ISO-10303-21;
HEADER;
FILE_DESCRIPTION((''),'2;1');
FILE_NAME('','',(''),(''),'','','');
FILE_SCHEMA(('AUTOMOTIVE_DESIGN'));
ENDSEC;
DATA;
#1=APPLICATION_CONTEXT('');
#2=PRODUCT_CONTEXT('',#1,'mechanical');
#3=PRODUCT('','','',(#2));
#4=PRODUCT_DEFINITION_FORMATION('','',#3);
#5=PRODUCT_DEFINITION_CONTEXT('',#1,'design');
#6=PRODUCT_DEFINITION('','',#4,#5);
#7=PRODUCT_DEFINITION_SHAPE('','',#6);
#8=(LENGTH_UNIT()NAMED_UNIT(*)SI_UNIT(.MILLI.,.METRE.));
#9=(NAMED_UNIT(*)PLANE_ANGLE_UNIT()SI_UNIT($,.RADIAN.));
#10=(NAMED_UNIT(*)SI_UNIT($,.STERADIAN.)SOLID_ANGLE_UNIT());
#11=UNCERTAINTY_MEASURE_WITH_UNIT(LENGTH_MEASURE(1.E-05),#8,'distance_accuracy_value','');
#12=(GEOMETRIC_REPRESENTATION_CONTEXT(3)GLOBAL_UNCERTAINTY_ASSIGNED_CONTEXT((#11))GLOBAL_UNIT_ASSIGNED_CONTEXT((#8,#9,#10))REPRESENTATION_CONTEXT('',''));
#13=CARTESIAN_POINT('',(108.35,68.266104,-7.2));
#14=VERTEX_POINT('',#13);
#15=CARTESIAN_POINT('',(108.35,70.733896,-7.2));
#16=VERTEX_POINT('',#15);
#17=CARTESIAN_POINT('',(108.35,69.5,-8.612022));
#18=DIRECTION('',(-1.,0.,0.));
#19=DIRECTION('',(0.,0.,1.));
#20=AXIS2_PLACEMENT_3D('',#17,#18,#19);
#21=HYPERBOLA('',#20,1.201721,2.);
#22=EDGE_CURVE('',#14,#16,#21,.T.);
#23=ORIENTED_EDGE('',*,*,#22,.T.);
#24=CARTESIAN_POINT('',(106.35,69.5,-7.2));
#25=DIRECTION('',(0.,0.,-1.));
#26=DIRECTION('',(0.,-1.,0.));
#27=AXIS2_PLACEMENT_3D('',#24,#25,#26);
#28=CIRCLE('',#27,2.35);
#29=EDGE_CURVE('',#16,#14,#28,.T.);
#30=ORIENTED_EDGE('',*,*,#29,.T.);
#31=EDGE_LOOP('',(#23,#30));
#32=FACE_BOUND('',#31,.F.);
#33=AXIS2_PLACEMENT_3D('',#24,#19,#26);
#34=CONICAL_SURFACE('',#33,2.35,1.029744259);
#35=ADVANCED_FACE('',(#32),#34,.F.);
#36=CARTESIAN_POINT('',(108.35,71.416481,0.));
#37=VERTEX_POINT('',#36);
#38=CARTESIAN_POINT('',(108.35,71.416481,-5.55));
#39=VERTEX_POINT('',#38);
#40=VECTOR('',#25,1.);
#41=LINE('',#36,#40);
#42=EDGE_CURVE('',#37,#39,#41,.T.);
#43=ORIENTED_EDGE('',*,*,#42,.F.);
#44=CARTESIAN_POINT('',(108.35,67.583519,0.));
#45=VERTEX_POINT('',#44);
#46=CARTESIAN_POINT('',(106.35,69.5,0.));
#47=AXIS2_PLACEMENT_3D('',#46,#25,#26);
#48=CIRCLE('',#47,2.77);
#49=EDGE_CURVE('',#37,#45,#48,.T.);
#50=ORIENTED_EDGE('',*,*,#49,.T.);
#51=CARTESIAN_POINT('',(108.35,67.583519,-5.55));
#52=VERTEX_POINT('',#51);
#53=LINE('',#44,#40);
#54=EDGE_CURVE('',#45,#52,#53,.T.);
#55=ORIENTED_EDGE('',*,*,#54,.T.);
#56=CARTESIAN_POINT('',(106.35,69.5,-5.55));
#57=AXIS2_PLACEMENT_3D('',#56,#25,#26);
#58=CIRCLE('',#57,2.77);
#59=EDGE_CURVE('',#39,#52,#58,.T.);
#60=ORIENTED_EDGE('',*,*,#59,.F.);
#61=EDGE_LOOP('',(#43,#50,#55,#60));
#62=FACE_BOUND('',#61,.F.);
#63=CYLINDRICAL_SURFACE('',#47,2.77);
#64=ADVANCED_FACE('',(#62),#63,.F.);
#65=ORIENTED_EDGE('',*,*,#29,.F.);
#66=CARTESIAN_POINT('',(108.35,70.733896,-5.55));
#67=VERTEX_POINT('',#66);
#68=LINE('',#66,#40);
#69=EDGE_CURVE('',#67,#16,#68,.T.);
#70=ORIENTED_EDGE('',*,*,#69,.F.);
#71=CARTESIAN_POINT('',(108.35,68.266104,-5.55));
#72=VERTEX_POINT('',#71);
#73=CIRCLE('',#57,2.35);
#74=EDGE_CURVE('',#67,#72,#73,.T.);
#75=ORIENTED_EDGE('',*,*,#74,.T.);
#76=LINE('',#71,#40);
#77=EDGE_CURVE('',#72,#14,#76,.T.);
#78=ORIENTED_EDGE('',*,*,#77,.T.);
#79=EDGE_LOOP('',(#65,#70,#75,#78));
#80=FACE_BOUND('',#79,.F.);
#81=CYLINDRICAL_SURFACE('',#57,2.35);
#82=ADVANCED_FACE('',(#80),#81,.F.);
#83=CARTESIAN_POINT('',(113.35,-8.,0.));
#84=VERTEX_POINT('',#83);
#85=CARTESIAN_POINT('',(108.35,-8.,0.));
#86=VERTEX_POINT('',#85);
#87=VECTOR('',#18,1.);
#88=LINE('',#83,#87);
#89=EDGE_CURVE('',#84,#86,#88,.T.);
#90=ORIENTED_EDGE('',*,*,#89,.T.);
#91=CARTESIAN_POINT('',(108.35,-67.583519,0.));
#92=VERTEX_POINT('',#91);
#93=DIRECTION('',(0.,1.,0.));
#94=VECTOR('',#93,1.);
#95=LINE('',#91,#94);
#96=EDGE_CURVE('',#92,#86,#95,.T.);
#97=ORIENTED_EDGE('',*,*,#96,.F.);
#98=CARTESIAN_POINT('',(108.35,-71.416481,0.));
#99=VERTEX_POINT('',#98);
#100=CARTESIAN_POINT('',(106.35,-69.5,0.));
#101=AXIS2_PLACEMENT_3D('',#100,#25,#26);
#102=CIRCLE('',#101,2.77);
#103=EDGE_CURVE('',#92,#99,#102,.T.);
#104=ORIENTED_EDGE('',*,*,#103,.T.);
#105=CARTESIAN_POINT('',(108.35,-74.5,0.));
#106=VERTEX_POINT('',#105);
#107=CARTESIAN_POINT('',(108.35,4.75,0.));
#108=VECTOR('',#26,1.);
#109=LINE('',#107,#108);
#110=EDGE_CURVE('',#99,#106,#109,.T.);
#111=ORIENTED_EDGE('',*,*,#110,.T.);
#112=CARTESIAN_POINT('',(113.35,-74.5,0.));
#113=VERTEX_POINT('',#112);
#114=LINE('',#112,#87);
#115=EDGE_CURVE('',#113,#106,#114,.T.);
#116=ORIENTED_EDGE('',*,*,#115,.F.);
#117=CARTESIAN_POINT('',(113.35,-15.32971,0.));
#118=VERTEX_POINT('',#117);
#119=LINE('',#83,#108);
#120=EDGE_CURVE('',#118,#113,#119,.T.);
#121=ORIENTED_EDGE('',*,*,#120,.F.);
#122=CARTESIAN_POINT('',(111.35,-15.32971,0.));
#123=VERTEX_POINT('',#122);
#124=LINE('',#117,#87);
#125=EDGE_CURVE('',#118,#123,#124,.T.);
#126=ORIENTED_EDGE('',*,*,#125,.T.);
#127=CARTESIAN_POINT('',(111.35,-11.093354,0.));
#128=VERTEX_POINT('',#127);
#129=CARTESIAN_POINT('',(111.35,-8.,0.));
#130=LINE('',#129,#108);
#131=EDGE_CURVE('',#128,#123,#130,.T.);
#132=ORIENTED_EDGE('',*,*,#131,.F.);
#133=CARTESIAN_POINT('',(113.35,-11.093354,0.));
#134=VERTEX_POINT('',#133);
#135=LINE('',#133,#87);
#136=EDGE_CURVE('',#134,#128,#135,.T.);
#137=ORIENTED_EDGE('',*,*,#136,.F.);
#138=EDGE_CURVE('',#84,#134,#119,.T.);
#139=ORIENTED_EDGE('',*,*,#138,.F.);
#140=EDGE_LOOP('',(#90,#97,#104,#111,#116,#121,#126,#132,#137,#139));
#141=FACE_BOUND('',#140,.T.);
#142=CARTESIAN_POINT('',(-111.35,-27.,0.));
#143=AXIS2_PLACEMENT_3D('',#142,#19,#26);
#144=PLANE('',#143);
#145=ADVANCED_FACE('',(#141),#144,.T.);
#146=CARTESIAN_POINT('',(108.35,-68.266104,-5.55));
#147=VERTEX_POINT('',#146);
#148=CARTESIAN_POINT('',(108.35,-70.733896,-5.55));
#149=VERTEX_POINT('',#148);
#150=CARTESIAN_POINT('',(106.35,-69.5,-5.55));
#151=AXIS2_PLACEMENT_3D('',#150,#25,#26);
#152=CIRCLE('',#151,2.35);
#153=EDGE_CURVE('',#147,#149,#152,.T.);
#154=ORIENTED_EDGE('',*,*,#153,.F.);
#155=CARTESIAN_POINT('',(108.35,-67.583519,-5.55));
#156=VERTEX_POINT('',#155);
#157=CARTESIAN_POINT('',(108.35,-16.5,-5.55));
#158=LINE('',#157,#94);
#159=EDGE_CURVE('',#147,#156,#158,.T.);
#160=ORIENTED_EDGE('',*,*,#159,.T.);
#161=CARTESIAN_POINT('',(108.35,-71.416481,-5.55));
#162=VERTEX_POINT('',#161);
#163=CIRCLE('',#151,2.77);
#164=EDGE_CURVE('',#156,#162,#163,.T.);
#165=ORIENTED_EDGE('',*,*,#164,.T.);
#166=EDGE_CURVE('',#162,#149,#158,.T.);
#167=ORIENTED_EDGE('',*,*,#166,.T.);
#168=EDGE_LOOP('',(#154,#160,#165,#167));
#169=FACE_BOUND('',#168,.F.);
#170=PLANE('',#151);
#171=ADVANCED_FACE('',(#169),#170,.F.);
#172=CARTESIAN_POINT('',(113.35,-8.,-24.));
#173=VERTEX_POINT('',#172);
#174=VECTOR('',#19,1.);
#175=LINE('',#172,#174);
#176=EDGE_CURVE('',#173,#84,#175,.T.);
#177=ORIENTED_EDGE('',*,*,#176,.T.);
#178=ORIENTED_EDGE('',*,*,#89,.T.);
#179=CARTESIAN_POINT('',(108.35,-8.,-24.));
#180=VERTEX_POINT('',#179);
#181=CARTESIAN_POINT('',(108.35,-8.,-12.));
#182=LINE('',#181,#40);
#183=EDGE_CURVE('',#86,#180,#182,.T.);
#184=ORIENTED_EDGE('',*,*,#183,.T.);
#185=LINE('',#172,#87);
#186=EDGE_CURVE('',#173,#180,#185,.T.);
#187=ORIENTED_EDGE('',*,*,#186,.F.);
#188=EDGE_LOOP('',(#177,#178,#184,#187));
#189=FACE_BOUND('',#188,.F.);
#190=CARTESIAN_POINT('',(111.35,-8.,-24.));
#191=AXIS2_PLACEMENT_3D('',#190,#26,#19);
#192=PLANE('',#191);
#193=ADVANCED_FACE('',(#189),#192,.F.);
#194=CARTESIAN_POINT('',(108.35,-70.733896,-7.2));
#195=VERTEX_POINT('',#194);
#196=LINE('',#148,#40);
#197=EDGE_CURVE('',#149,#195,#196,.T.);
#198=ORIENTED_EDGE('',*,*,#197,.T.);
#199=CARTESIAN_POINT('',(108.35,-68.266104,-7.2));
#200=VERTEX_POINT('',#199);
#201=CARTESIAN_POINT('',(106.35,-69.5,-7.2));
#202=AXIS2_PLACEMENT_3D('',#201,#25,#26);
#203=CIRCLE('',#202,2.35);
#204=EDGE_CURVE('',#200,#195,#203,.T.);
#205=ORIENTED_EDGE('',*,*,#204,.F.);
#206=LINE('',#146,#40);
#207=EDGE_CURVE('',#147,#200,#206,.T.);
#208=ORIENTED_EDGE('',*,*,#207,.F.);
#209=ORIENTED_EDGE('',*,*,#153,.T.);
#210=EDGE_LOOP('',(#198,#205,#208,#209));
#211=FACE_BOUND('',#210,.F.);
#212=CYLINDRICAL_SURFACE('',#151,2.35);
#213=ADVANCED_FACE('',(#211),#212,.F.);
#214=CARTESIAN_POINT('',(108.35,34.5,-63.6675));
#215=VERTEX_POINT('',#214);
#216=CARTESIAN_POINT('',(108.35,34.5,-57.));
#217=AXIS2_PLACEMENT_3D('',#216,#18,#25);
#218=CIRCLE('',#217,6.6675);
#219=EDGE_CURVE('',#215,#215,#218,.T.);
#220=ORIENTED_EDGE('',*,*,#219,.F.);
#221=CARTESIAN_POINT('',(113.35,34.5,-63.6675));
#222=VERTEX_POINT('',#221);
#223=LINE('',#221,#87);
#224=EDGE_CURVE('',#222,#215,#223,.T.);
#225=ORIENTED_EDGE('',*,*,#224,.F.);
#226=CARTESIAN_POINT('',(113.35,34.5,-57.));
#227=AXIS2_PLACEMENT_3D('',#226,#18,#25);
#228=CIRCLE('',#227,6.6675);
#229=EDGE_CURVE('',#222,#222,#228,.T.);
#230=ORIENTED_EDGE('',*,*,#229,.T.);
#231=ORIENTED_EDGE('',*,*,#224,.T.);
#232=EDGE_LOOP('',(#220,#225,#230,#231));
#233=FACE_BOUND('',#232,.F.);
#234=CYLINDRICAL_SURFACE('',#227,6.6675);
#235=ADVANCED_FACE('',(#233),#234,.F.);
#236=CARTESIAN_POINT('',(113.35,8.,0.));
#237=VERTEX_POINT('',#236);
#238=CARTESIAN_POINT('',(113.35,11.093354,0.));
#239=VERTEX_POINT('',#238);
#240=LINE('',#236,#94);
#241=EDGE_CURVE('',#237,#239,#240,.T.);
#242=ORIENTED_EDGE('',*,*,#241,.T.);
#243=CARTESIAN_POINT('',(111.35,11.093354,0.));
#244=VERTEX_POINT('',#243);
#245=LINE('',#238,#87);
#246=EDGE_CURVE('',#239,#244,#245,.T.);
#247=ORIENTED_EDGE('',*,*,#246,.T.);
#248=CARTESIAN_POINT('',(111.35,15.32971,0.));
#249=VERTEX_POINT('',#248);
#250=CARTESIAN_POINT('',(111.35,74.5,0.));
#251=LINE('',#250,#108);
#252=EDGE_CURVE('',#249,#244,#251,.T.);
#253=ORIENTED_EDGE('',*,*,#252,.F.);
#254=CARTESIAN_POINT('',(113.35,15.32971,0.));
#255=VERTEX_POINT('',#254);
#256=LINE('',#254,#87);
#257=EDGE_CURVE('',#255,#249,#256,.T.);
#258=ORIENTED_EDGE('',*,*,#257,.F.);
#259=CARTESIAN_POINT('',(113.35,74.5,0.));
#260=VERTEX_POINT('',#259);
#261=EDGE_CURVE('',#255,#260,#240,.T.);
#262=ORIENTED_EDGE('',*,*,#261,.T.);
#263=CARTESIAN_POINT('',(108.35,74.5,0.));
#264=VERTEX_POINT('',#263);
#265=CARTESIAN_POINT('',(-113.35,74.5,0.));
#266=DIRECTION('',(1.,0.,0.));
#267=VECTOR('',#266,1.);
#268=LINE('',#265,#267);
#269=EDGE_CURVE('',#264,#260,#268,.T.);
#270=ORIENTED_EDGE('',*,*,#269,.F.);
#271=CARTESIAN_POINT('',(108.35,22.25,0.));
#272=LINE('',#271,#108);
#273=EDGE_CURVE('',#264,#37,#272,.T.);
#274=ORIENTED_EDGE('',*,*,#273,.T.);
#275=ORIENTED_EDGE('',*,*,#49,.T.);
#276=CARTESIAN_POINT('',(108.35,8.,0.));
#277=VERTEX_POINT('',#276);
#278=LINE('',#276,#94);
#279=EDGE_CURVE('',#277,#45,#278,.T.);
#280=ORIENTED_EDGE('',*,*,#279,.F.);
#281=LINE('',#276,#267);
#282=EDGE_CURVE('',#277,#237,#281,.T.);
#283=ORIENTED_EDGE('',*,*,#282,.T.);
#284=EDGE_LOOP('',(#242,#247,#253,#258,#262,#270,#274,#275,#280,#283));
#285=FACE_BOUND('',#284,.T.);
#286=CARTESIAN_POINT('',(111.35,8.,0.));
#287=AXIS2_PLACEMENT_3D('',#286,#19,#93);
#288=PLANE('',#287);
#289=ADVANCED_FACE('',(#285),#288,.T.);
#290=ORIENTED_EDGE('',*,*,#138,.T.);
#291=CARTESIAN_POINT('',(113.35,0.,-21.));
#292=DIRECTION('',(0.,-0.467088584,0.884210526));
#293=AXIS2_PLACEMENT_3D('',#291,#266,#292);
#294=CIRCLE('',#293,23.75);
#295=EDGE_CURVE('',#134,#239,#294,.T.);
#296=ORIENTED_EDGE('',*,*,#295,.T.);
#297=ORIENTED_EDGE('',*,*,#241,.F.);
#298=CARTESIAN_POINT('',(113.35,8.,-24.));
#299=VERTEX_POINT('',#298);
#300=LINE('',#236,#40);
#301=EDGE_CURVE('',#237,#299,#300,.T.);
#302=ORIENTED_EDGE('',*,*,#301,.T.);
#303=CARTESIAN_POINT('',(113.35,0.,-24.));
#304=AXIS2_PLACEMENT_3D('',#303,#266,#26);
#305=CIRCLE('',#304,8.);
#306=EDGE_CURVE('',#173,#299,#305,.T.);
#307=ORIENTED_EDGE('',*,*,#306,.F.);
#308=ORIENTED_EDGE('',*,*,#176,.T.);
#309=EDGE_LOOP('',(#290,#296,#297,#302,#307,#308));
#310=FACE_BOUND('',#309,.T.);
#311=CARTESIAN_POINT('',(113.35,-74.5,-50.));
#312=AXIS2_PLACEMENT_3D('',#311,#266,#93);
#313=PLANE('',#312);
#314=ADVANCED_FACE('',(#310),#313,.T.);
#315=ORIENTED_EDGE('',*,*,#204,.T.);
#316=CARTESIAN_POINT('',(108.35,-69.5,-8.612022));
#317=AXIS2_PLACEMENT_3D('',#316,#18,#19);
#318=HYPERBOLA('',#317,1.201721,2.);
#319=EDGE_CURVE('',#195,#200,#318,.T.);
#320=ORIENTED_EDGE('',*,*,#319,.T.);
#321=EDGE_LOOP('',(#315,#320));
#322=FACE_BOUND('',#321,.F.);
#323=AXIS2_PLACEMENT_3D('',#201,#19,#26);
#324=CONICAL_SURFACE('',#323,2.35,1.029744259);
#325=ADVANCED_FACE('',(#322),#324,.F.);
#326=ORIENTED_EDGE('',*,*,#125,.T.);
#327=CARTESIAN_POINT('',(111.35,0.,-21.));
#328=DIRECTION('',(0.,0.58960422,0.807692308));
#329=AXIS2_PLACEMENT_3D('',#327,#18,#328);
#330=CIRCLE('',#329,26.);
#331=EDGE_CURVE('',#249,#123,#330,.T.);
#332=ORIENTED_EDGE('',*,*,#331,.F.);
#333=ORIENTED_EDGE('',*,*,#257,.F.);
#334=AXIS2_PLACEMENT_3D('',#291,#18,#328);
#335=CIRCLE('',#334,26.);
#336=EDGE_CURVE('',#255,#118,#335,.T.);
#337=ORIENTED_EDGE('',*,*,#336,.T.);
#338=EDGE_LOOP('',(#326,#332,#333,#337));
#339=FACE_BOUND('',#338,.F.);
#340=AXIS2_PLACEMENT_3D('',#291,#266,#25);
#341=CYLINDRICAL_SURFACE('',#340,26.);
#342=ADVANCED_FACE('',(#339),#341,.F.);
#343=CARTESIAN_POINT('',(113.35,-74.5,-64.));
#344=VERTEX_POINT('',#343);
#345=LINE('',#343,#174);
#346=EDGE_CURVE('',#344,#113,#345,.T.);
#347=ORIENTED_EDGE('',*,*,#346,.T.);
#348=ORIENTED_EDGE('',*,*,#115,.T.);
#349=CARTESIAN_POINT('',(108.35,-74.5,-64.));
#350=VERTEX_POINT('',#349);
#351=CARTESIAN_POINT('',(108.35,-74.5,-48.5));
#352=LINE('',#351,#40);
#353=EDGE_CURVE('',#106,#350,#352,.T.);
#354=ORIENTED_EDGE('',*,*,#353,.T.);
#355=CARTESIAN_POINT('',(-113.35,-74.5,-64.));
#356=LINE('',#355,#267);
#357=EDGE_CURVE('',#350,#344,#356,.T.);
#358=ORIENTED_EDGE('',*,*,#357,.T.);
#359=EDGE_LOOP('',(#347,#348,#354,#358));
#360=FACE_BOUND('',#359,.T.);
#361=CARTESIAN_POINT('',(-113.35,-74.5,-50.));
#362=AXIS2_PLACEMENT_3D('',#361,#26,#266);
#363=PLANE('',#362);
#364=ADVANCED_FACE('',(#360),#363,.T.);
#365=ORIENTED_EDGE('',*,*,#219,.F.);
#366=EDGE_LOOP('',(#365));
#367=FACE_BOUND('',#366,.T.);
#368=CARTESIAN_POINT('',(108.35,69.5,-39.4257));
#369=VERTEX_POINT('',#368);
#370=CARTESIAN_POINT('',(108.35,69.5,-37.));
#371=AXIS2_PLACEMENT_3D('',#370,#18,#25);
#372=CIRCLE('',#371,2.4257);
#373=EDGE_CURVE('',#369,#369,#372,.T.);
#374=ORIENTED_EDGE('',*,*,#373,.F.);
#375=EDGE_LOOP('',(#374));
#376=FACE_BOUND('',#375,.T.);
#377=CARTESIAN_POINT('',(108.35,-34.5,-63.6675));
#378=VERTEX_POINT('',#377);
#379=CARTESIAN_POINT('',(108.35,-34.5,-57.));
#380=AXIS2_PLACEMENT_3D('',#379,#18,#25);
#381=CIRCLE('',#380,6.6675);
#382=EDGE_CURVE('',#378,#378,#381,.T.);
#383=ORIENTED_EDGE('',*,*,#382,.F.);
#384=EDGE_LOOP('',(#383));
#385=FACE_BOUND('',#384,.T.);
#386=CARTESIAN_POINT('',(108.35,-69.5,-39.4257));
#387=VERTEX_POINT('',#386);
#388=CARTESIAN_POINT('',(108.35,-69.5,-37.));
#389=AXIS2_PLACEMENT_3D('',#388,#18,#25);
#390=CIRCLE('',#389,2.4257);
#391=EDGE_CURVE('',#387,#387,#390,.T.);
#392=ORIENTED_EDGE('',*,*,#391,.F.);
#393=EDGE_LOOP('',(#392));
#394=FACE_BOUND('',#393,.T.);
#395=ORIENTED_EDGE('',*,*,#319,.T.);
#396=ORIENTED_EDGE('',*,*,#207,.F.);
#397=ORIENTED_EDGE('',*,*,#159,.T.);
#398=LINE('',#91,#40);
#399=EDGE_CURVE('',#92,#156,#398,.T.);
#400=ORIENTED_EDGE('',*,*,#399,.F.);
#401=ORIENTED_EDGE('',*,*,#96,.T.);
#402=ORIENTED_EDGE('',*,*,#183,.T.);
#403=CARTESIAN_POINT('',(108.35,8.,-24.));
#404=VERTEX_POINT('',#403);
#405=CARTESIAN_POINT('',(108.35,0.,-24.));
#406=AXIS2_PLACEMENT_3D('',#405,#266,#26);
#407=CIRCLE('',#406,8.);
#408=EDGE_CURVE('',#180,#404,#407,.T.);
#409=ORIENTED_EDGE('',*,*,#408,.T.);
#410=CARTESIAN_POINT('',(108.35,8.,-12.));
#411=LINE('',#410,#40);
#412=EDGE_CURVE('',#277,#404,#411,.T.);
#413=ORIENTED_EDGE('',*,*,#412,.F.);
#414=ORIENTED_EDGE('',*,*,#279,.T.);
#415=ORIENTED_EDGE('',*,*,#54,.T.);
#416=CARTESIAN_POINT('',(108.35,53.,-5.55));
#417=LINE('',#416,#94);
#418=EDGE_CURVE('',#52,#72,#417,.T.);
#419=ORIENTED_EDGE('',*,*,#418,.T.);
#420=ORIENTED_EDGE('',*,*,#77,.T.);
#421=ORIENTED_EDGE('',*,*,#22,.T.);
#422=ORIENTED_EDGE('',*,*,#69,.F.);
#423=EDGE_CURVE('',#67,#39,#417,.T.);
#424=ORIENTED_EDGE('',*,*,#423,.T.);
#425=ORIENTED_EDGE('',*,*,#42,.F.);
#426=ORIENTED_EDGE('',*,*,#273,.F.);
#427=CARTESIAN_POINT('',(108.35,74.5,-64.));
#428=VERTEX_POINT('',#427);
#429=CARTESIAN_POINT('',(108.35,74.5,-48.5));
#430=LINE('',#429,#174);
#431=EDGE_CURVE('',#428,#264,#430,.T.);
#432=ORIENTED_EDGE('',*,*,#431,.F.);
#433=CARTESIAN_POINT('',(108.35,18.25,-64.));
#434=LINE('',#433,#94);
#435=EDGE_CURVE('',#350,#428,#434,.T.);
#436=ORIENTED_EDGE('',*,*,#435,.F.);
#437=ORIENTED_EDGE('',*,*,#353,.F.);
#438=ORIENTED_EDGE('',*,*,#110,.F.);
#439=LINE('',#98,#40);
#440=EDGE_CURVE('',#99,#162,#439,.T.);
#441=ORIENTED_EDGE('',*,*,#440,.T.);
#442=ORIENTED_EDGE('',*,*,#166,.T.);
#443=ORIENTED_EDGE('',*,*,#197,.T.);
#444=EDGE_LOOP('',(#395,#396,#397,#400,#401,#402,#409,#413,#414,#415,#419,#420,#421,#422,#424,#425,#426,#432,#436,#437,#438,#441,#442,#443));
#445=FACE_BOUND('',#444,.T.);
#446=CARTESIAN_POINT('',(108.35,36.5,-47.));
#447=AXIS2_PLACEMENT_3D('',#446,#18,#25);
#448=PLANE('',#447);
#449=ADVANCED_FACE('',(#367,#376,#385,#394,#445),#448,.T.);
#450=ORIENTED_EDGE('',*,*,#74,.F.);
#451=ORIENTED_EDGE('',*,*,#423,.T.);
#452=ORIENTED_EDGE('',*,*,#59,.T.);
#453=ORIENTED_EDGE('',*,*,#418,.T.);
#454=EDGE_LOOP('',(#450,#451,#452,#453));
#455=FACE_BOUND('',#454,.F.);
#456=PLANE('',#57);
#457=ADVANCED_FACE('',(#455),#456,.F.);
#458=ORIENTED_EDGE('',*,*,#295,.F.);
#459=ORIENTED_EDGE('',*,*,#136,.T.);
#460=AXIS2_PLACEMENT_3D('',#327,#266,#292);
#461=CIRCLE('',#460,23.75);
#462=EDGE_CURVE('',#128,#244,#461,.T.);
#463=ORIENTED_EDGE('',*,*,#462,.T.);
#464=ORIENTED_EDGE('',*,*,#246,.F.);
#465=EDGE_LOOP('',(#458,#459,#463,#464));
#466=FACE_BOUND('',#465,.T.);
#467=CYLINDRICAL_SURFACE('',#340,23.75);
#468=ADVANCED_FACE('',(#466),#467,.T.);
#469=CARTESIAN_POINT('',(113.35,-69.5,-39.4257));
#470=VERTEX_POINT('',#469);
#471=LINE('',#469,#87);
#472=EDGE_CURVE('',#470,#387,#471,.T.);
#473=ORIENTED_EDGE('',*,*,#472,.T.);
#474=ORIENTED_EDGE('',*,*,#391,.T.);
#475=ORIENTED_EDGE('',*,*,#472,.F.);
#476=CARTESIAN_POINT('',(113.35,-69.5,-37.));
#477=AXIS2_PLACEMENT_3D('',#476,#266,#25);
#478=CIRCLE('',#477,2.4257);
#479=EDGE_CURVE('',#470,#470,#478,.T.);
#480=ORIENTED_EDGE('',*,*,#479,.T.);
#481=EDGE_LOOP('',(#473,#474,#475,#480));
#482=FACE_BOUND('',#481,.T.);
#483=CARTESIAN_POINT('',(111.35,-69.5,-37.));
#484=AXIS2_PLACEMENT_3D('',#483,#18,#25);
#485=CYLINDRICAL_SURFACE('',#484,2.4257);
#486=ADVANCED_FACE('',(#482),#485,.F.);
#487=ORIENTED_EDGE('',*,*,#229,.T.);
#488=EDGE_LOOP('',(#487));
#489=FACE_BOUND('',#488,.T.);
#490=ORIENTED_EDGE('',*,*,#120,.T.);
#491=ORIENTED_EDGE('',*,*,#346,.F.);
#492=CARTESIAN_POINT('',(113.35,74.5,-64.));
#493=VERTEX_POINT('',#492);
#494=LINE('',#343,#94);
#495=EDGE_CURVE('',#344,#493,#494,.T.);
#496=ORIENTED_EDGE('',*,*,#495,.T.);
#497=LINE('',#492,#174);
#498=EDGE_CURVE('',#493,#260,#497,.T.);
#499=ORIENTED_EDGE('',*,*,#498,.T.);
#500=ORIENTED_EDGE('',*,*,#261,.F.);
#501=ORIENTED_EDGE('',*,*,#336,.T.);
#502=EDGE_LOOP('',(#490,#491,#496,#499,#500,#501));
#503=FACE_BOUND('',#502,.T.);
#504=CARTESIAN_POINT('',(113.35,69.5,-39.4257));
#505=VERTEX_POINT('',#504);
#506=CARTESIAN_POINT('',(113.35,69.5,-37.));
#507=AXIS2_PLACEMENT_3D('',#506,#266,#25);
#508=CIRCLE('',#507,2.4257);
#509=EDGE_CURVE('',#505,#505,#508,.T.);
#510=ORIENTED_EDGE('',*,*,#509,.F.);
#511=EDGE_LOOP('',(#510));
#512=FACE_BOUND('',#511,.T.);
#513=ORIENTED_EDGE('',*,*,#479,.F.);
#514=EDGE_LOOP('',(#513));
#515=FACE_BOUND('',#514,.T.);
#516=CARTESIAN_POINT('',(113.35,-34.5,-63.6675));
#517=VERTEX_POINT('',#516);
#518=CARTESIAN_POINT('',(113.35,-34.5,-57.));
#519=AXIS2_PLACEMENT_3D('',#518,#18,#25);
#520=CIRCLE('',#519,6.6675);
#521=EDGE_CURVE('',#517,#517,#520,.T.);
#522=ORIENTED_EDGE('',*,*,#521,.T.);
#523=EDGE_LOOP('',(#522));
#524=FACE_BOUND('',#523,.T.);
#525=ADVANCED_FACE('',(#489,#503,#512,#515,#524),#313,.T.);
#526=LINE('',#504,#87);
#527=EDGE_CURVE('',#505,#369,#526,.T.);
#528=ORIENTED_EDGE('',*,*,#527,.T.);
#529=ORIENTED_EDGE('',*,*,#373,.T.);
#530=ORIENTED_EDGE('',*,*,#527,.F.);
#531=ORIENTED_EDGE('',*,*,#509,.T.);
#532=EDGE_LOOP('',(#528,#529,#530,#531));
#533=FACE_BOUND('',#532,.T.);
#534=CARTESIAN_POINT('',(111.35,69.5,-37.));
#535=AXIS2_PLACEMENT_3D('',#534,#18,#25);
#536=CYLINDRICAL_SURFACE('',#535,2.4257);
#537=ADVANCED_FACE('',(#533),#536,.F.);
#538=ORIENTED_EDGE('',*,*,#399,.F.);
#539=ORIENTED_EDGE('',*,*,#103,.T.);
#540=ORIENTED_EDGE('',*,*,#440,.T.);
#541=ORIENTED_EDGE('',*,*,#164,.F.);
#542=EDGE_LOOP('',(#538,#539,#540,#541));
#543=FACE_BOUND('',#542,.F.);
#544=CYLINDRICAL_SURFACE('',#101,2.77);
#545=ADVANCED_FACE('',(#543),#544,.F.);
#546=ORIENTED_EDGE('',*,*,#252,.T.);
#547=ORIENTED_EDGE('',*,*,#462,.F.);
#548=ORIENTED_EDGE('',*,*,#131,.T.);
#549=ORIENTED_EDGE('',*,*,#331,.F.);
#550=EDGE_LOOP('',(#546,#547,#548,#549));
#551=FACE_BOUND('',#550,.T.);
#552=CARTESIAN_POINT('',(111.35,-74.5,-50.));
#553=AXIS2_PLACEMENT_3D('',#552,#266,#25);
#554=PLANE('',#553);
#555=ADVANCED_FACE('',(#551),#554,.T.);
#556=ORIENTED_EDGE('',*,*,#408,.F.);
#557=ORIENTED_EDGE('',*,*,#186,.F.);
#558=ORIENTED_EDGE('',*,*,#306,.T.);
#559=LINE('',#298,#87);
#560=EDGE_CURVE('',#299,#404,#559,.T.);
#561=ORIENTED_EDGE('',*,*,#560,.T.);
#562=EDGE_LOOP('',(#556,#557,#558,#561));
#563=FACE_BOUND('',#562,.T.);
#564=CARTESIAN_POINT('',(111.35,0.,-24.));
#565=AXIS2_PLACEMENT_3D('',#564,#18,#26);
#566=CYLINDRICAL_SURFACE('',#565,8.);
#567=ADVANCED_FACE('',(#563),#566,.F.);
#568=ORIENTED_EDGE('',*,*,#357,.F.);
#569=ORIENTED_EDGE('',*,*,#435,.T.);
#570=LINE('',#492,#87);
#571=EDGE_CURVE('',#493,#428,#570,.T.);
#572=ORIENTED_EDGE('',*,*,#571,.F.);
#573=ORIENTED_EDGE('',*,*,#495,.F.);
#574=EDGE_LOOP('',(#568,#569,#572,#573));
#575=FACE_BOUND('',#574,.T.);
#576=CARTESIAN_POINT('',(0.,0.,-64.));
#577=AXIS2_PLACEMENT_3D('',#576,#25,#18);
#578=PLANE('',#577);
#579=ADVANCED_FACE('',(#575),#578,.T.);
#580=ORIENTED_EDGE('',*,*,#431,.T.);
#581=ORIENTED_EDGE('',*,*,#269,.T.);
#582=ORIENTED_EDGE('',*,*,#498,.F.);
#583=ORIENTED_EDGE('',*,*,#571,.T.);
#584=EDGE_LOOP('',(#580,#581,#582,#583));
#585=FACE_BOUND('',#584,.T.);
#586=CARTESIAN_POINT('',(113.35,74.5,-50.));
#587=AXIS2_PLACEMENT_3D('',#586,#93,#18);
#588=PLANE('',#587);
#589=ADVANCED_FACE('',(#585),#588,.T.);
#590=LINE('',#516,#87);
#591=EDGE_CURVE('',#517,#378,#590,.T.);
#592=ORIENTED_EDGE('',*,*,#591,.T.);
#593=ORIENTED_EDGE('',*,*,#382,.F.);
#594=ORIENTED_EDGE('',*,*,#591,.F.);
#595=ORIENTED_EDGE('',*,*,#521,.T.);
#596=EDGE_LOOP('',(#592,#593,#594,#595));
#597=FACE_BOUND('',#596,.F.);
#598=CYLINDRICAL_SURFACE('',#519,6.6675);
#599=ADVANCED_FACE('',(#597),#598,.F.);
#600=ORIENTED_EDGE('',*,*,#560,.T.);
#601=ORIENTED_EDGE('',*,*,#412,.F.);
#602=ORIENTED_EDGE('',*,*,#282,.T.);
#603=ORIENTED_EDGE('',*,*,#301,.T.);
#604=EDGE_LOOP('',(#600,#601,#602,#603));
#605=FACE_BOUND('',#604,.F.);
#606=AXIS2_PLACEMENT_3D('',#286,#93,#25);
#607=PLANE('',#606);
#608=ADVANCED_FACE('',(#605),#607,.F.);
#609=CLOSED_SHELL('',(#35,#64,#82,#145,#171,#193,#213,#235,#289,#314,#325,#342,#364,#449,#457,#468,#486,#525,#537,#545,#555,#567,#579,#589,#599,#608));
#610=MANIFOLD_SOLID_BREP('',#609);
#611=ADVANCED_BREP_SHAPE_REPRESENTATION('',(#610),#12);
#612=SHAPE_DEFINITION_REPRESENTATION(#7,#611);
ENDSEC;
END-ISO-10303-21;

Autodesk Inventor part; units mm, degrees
ref_plane "XZ Plane" through (0, 0, 0) normal (0, 1, 0) x (-1, 0, 0)
ref_plane "XY Plane" through (0, 0, 0) normal (0, 0, 1) x (1, 0, 0)
sketch "Sketch1" plane through (0, 0, 0) normal (0, 0, 1) x (1, 0, 0)
  line L0 (-111.35, -74.5) -> (111.35, -74.5)
  line L1 (111.35, -74.5) -> (111.35, 74.5)
  line L2 (111.35, 74.5) -> (-111.35, 74.5)
  line L3 (-111.35, 74.5) -> (-111.35, -74.5)
  line L4 (-111.35, -74.5) -> (111.35, 74.5) construction
  line L5 (111.35, -74.5) -> (-111.35, 74.5) construction
  point P0 (0, 0)
  dimension "d0" = 222.7
  dimension "d1" = 149
extrude "MainInnerBodyExtrusion" add sketch "Sketch1" against normal blind 50
sketch "Sketch3" plane through (0, 0, 0) normal (0, 0, 1) x (1, 0, 0)
  line L0 (36.65, -27) -> (95.65, -27)
  line L1 (95.65, -27) -> (95.65, 27)
  line L2 (95.65, 27) -> (36.65, 27)
  line L3 (36.65, 27) -> (36.65, -27)
  line L4 (36.65, -27) -> (95.65, 27) construction
  line L5 (95.65, -27) -> (36.65, 27) construction
  line L6 (111.35, -74.5) -> (111.35, 74.5) projected
  line L7 (0, 0) -> (111.35, 0) construction
  line L8 (-111.35, -74.5) -> (-111.35, 74.5) construction
  line L9 (-111.35, 74.5) -> (-111.35, -74.5) projected
  point P0 (66.15, 0)
  point P1 (66.15, 0)
  dimension "d5" = 15.7
  dimension "d6" = 54
  dimension "d7" = 59
extrude "HoleForCamerabase" cut sketch "Sketch3" against normal blind 47
sketch "Sketch4" plane through (0, 0, 0) normal (0, 0, 1) x (1, 0, 0)
  line L0 (0, 0) -> (-111.35, 0) construction
  line L1 (-111.35, -74.5) -> (-111.35, 74.5) construction
  line L2 (-108.35, -31) -> (-92.35, -31)
  line L3 (-92.35, -31) -> (-92.35, 31)
  line L4 (-92.35, 31) -> (-108.35, 31)
  line L5 (-108.35, 31) -> (-108.35, -31)
  line L6 (-108.35, -31) -> (-92.35, 31) construction
  line L7 (-92.35, -31) -> (-108.35, 31) construction
  point P0 (-100.35, 0)
  dimension "d13" = 16
  dimension "d14" = 62
  dimension "d15" = 3
extrude "HoleForFan" cut sketch "Sketch4" against normal blind 47
sketch "Sketch6" plane through (0, 0, 0) normal (0, 0, 1) x (1, 0, 0)
  line L0 (-111.35, -74.5) -> (-111.35, 74.5) construction
  line L1 (-111.35, 0) -> (111.35, 0) construction
  line L2 (111.35, 74.5) -> (111.35, -74.5) construction
  line L3 (-11.35, -64.5) -> (20.65, -64.5)
  line L4 (20.65, -64.5) -> (20.65, 64.5)
  line L5 (20.65, 64.5) -> (-11.35, 64.5)
  line L6 (-11.35, 64.5) -> (-11.35, -64.5)
  line L7 (-11.35, -64.5) -> (20.65, 64.5) construction
  line L8 (20.65, -64.5) -> (-11.35, 64.5) construction
  line L9 (36.65, -27) -> (36.65, 27) projected
  point P0 (0, 0)
  point P1 (4.65, 0)
  dimension "d20" = 32
  dimension "d21" = 129
  dimension "d88" = 16
extrude "HoleForPi" cut sketch "Sketch6" against normal blind 47
sketch "Sketch7" plane through (0, 0, 0) normal (0, 0, 1) x (1, 0, 0)
  line L0 (0, 0) -> (-111.35, 0) construction
  line L1 (-111.35, 74.5) -> (-111.35, -74.5) construction
  line L2 (-76.35, -59) -> (-27.35, -59)
  line L3 (-27.35, -59) -> (-27.35, 59)
  line L4 (-27.35, 59) -> (-76.35, 59)
  line L5 (-76.35, 59) -> (-76.35, -59)
  line L6 (-76.35, -59) -> (-27.35, 59) construction
  line L7 (-27.35, -59) -> (-76.35, 59) construction
  line L8 (-11.35, -64.5) -> (-11.35, 64.5) projected
  line L9 (-92.35, 31) -> (-92.35, -31) construction
  point P0 (-51.85, 0)
  dimension "d25" = 16
  dimension "d26" = 49
  dimension "d27" = 118
extrude "HoleForPoeAdapter" cut sketch "Sketch7" against normal blind 47
sketch "Sketch10" plane through (0, 0, 0) normal (0, 0, 1) x (1, 0, 0)
  line L0 (39.35, 36.5) -> (108.35, 36.5)
  line L1 (108.35, 36.5) -> (108.35, 64.5)
  line L2 (108.35, 64.5) -> (39.35, 64.5)
  line L3 (39.35, 64.5) -> (39.35, 36.5)
  line L4 (39.35, 36.5) -> (108.35, 64.5) construction
  line L5 (108.35, 36.5) -> (39.35, 64.5) construction
  line L6 (111.35, 74.5) -> (-111.35, 74.5) projected
  line L7 (111.35, -74.5) -> (111.35, 74.5) projected
  point P0 (0, 0)
  point P1 (73.85, 50.5)
  point P2 (94.85, 8.5)
  point P3 (108.35, 50.5)
  dimension "d36" = 69
  dimension "d37" = 28
  dimension "d85" = 3
extrude "HoleForThermister" cut sketch "Sketch10" against normal blind 47
sketch "Sketch11" plane through (0, 0, 0) normal (0, 0, 1) x (1, 0, 0)
  line L0 (58.35, -64.5) -> (108.35, -64.5)
  line L1 (108.35, -64.5) -> (108.35, -47.5)
  line L2 (108.35, -47.5) -> (58.35, -47.5)
  line L3 (58.35, -47.5) -> (58.35, -64.5)
  line L4 (58.35, -64.5) -> (108.35, -47.5) construction
  line L5 (108.35, -64.5) -> (58.35, -47.5) construction
  line L6 (111.35, -74.5) -> (111.35, 74.5) projected
  line L7 (-111.35, -74.5) -> (111.35, -74.5) projected
  line L8 (95.65, -27) -> (36.65, -27) projected
  line L9 (20.65, 64.5) -> (20.65, -64.5) projected
  point P0 (0, 0)
  point P1 (83.35, -56)
  point P2 (94.85, -8.5)
  point P3 (83.35, -47.5)
  point P4 (58.35, -56)
  point P5 (111.35, 74.5)
  dimension "d42" = 50
  dimension "d43" = 17
  dimension "d86" = 3
  dimension "d87" = 10
extrude "HoleForSensor" cut sketch "Sketch11" against normal blind 31.5
sketch "Sketch15" plane through (-111.35, -74.5, 0) normal (-1, 0, 0) x (0, 0, 1)
  line L0 (0, 149) -> (0, 0) projected
  line L1 (0, 149) -> (-50, 149) projected
  line L2 (-50, 0) -> (-50, 149) projected
  line L3 (0, 0) -> (-50, 0) projected
  line L4 (0, 0) -> (0, 149) projected
  line L5 (0, 101.5) -> (0, 47.5) projected
  line L6 (0, 74.5) -> (-30, 74.5) construction
  line L7 (0, 76.5) -> (-29.9333, 76.5)
  line L8 (0, 84.5) -> (-28.2843, 84.5)
  line L9 (0, 80.5) -> (-29.3939, 80.5)
  line L10 (0, 76.5) -> (0, 74.5)
  line L11 (0, 88.5) -> (-26.533, 88.5)
  line L12 (0, 92.5) -> (-24, 92.5)
  line L13 (-20.5913, 97.5) -> (0, 97.5)
  line L14 (-14.9666, 101.5) -> (0, 101.5)
  line L15 (0, 84.5) -> (0, 80.5)
  line L16 (0, 101.5) -> (0, 97.5)
  line L17 (0, 92.5) -> (0, 88.5)
  line L18 (0, 72.5) -> (-29.9333, 72.5)
  line L19 (0, 64.5) -> (-28.2843, 64.5)
  line L20 (0, 68.5) -> (-29.3939, 68.5)
  line L21 (0, 72.5) -> (0, 74.5)
  line L22 (0, 60.5) -> (-26.533, 60.5)
  line L23 (0, 56.5) -> (-24, 56.5)
  line L24 (-20.5913, 51.5) -> (0, 51.5)
  line L25 (-14.9666, 47.5) -> (0, 47.5)
  line L26 (0, 64.5) -> (0, 68.5)
  line L27 (0, 56.5) -> (0, 60.5)
  line L28 (0, 47.5) -> (0, 51.5)
  line L29 (0, 72.5) -> (0, 76.5)
  line L30 (0, 80.5) -> (0, 84.5)
  line L31 (0, 88.5) -> (0, 92.5)
  line L32 (0, 97.5) -> (0, 149)
  arc A0 (-28.2843, 84.5) -> (-29.3939, 80.5) centre (0, 74.5) ccw
  arc A1 (-14.9666, 101.5) -> (-20.5913, 97.5) centre (0, 74.5) ccw
  arc A2 (-24, 92.5) -> (-26.533, 88.5) centre (0, 74.5) ccw
  arc A3 (-29.9333, 76.5) -> (-29.9333, 72.5) centre (0, 74.5) ccw
  arc A4 (-29.3939, 68.5) -> (-28.2843, 64.5) centre (0, 74.5) ccw
  arc A5 (-26.533, 60.5) -> (-24, 56.5) centre (0, 74.5) ccw
  arc A6 (-20.5913, 51.5) -> (-14.9666, 47.5) centre (0, 74.5) ccw
  point P0 (0, 82)
  point P1 (0, 67.0167)
  point P2 (0, 4.25)
  point P3 (-10.2956, 97.5)
  point P4 (0, 47.5)
  point P5 (0, 51.5)
  point P6 (0, 56.5)
  point P7 (0, 60.5)
  point P8 (0, 64.5)
  point P9 (0, 68.5)
  point P10 (0, 72.5)
  point P11 (0, 80.5)
  point P12 (0, 84.5)
  point P13 (0, 88.5)
  point P14 (0, 92.5)
  point P15 (0, 97.5)
  point P16 (0, 101.5)
  dimension "d69" = 2
  dimension "d71" = 4
  dimension "d72" = 4
  dimension "d73" = 4
  dimension "d75" = 4
  dimension "d142" = 30
extrude "SlotsForRearFan" cut sketch "Sketch15" against normal up to surface (3 mm away) contours L0 L13 A1 L14 | L0 L11 A2 L12 | L25 A6 L24 L0 | L0 L9 A0 L8 | L23 A5 L22 L0 | L0 L18 A3 L7 | L19 A4 L20 L0
sketch "Sketch16" plane through (0, 0, -47) normal (0, 0, 1) x (1, 0, 0)
  line L0 (95.65, 27) -> (95.65, -27) projected
  line L1 (80.15, 10.765) -> (80.15, -11.235) construction
  line L2 (78.65, 10.765) -> (78.65, -11.235)
  line L3 (75.65, -11.235) -> (75.65, 10.765)
  line L4 (72.65, 8.7746) -> (72.65, -9.2446)
  line L5 (69.65, 3.5785) -> (69.65, -4.0485)
  line L6 (81.65, 10.765) -> (81.65, -11.235)
  line L7 (84.65, -11.235) -> (84.65, 10.765)
  line L8 (87.65, 8.7746) -> (87.65, -9.2446)
  line L9 (90.65, 3.5785) -> (90.65, -4.0485)
  line L10 (73.7991, 10.765) -> (75.65, 10.765)
  line L11 (75.65, -11.235) -> (73.7991, -11.235)
  line L12 (73.7991, -11.235) -> (72.65, -9.2446)
  line L13 (69.65, -4.0485) -> (67.4483, -0.235)
  line L14 (67.4483, -0.235) -> (69.65, 3.5785)
  line L15 (72.65, 8.7746) -> (73.7991, 10.765)
  line L16 (78.65, 10.765) -> (81.65, 10.765)
  line L17 (84.65, 10.765) -> (86.5009, 10.765)
  line L18 (86.5009, -11.235) -> (84.65, -11.235)
  line L19 (81.65, -11.235) -> (78.65, -11.235)
  line L20 (92.8517, -0.235) -> (90.65, -4.0485)
  line L21 (87.65, -9.2446) -> (86.5009, -11.235)
  line L22 (86.5009, 10.765) -> (87.65, 8.7746)
  line L23 (90.65, 3.5785) -> (92.8517, -0.235)
  point P0 (0, 0)
  point P1 (80.15, -0.235)
  point P2 (69.65, -0.235)
  dimension "d78" = 15.5
  dimension "d89" = 1.5
  dimension "d90" = 3
  dimension "d91" = 3
  dimension "d92" = 3
extrude "VentForCamera" cut sketch "Sketch16" against normal through all
sketch "Sketch18" plane through (111.35, -74.5, 0) normal (1, 0, 0) x (0, 0, -1)
  line L0 (0, 74.5) -> (29.6767, 74.5) construction
  arc A0 (24, 66.5) -> (24, 82.5) centre (24, 74.5) ccw
  line L1 (0, 0) -> (0, 149) projected
  line L2 (24, 82.5) -> (0, 82.5)
  line L3 (24, 66.5) -> (0, 66.5)
  line L4 (0, 82.5) -> (0, 66.5)
  point P0 (0, 74.5)
  dimension "d97" = 16
  dimension "d137" = 24
extrude "HoleForLens" cut sketch "Sketch18" against normal up to surface (15.7 mm away)
sketch "Sketch23" plane through (0, 0, 0) normal (0, 0, 1) x (1, 0, 0)
  line L0 (-106.35, -69.5) -> (106.35, -69.5) construction
  line L1 (106.35, -69.5) -> (106.35, 69.5) construction
  line L2 (106.35, 69.5) -> (-106.35, 69.5) construction
  line L3 (-106.35, 69.5) -> (-106.35, -69.5) construction
  line L4 (-106.35, -69.5) -> (106.35, 69.5) construction
  line L5 (106.35, -69.5) -> (-106.35, 69.5) construction
  line L6 (111.35, -74.5) -> (111.35, -8) projected
  line L7 (111.35, 74.5) -> (-111.35, 74.5) projected
  line L8 (-111.35, -27) -> (-111.35, -74.5) projected
  line L9 (-111.35, 74.5) -> (-111.35, 27) projected
  line L10 (111.35, 8) -> (111.35, 74.5) projected
  point P0 (0, 0)
  point P1 (35.15, -69.5)
  point P2 (-35.15, -69.5)
  point P3 (-35.15, 69.5)
  point P4 (35.15, 69.5)
  dimension "d106" = 5
  dimension "d108" = 5
  dimension "d222" = 76.2
  dimension "d223" = 76.2
  dimension "d224" = 76.2
  dimension "d225" = 76.2
hole "Hole for 6-32 Insert" at (-106.35, 69.5, 0) at (106.35, 69.5, 0) at (106.35, -69.5, 0) at (-106.35, -69.5, 0) at (-35.15, -69.5, 0) at (35.15, -69.5, 0) at (-35.15, 69.5, 0) at (35.15, 69.5, 0) direction (0, 0, -1) diameter 4.7 depth 7.2 tip angle 118 counterbore diameter 5.54 counterbore depth 5.55
hole "Screw hole for 6-32 screw" at (-106.35, -69.5, 0) at (106.35, -69.5, 0) at (106.35, 69.5, 0) at (-106.35, 69.5, 0) direction (0, 0, -1) diameter 3.797 depth 15 tip angle 118 clearance for "Hex Machine Screw" size "#6" standard "Ansi Unified Screw Threads"
sketch "Sketch24" plane through (-111.35, -74.5, 0) normal (0, -1, 0) x (1, 0, 0)
  line L0 (0, -50) -> (222.7, -50) construction
  line L1 (222.7, 0) -> (207, 0) construction
  line L2 (0, 0) -> (0, -50) projected
  line L3 (111.3501, -25) -> (0, -25) construction
  line L4 (111.3501, -25) -> (222.7, -24.84) construction
  line L5 (222.7, 0) -> (222.7, -50) construction
  point P0 (111.35, 0)
  dimension "d226" = 25
  dimension "d227" = 111.3501
hole "Side hole for 1-4 20 insert" at (0.0001, -74.5, -25) direction (0, 1, 0) diameter 7.666 depth 9.53 tip angle 118 counterbore diameter 8.406 counterbore depth 7.41 clearance for "Hex Machine Screw" size "1/4" standard "Ansi Unified Screw Threads"
mirror "Mirror for side insert" about plane through (0, 0, 0) normal (0, 1, 0) of "Side hole for 1-4 20 insert"
sketch "Sketch25" plane through (0, 0, 0) normal (0, 0, 1) x (1, 0, 0)
  line L0 (111.35, 74.5) -> (-111.35, 74.5) projected
  line L1 (-111.35, 74.5) -> (-111.35, 27) projected
  line L2 (-111.35, -74.5) -> (111.35, -74.5) projected
  line L3 (81.65, -11.235) -> (78.65, -11.235) projected
  line L4 (78.65, -11.235) -> (78.65, 10.765) projected
  line L5 (78.65, 10.765) -> (81.65, 10.765) projected
  line L6 (81.65, 10.765) -> (81.65, -11.235) projected
  line L7 (73.7991, 10.765) -> (75.65, 10.765) projected
  line L8 (75.65, 10.765) -> (75.65, -11.235) projected
  line L9 (75.65, -11.235) -> (73.7991, -11.235) projected
  line L10 (73.7991, -11.235) -> (72.65, -9.2446) projected
  line L11 (72.65, -9.2446) -> (72.65, 8.7746) projected
  line L12 (72.65, 8.7746) -> (73.7991, 10.765) projected
  line L13 (87.65, 8.7746) -> (87.65, -9.2446) projected
  line L14 (87.65, -9.2446) -> (86.5009, -11.235) projected
  line L15 (86.5009, -11.235) -> (84.65, -11.235) projected
  line L16 (84.65, -11.235) -> (84.65, 10.765) projected
  line L17 (84.65, 10.765) -> (86.5009, 10.765) projected
  line L18 (86.5009, 10.765) -> (87.65, 8.7746) projected
  line L19 (69.65, 3.5785) -> (69.65, -4.0485) projected
  line L20 (69.65, -4.0485) -> (67.4483, -0.235) projected
  line L21 (67.4483, -0.235) -> (69.65, 3.5785) projected
  line L22 (92.8517, -0.235) -> (90.65, -4.0485) projected
  line L23 (90.65, -4.0485) -> (90.65, 3.5785) projected
  line L24 (90.65, 3.5785) -> (92.8517, -0.235) projected
  line L25 (95.65, 27) -> (95.65, -27) projected
  line L26 (36.65, 27) -> (95.65, 27) projected
  line L27 (36.65, -27) -> (36.65, 27) projected
  line L28 (95.65, -27) -> (36.65, -27) projected
  line L29 (111.35, -74.5) -> (111.35, -8) projected
  line L30 (111.35, 8) -> (111.35, 74.5) projected
  line L31 (-108.35, -64.5) -> (108.35, -64.5)
  line L32 (108.35, -64.5) -> (108.35, 64.5)
  line L33 (108.35, 64.5) -> (-108.35, 64.5)
  line L34 (-108.35, 64.5) -> (-108.35, -64.5)
  line L35 (-108.35, -64.5) -> (108.35, 64.5) construction
  line L36 (108.35, -64.5) -> (-108.35, 64.5) construction
  line L37 (-27.35, 59) -> (-27.35, -59) projected
  point P0 (0, 0)
  dimension "d138" = 10
  dimension "d139" = 3
extrude "Extrusion18" cut sketch "Sketch25" against normal blind 25 contours L34 L33 L32 L31
sketch "Sketch26" plane through (-111.35, -74.5, -50) normal (-1, 0, 0) x (0, 0, 1)
  arc A0 (50, 124) -> (50, 134) centre (50, 129) ccw
  circle A1 centre (50, 129) radius 5
  point P0 (50, 74.5)
  point P1 (50, 124)
extrude "HoleForPowerWire" cut sketch "Sketch26" against normal up to surface (3 mm away)
sketch "Sketch35" plane through (111.35, -74.5, -50) normal (1, 0, 0) x (0, 0, -1)
  circle A0 centre (-13, 5) radius 2.4257
  circle A1 centre (-13, 144) radius 2.4257
  line L0 (-50, 0) -> (0, 0) projected
  line L1 (-50, 149) -> (0, 149) projected
  line L2 (-3, 139) -> (-3, 10) projected
  point P0 (-50, 74.5)
  dimension "d215" = 4.8514
  dimension "d216" = 5
  dimension "d217" = 5
  dimension "d218" = 10
  dimension "d219" = 10
extrude "Extrusion21" cut sketch "Sketch35" against normal blind 9.525
sketch "Sketch37" plane through (-111.35, -74.5, -50) normal (-1, 0, 0) x (0, 0, 1)
  arc A0 (50, 134) -> (50, 124) centre (50, 129) ccw projected
  line L0 (50, 149) -> (50, 134) projected
  line L1 (50, 149) -> (0, 149) projected
  line L2 (0, 0) -> (0, 149) projected
  line L3 (50, 0) -> (0, 0) projected
  line L4 (50, 47.5) -> (50, 0) projected
  line L5 (50, 47.5) -> (35.0334, 47.5) projected
  arc A1 (29.4087, 51.5) -> (35.0334, 47.5) centre (50, 74.5) ccw projected
  line L6 (29.4087, 51.5) -> (50, 51.5) projected
  line L7 (50, 56.5) -> (50, 51.5) projected
  line L8 (50, 56.5) -> (26, 56.5) projected
  arc A2 (23.467, 60.5) -> (26, 56.5) centre (50, 74.5) ccw projected
  line L9 (23.467, 60.5) -> (50, 60.5) projected
  line L10 (50, 64.5) -> (50, 60.5) projected
  line L11 (50, 64.5) -> (21.7157, 64.5) projected
  arc A3 (20.6061, 68.5) -> (21.7157, 64.5) centre (50, 74.5) ccw projected
  line L12 (20.6061, 68.5) -> (50, 68.5) projected
  line L13 (50, 72.5) -> (50, 68.5) projected
  line L14 (50, 72.5) -> (20.0667, 72.5) projected
  arc A4 (20.0667, 76.5) -> (20.0667, 72.5) centre (50, 74.5) ccw projected
  line L15 (20.0667, 76.5) -> (50, 76.5) projected
  line L16 (50, 80.5) -> (50, 76.5) projected
  line L17 (50, 80.5) -> (20.6061, 80.5) projected
  arc A5 (21.7157, 84.5) -> (20.6061, 80.5) centre (50, 74.5) ccw projected
  line L18 (21.7157, 84.5) -> (50, 84.5) projected
  line L19 (50, 88.5) -> (50, 84.5) projected
  line L20 (50, 88.5) -> (23.467, 88.5) projected
  arc A6 (26, 92.5) -> (23.467, 88.5) centre (50, 74.5) ccw projected
  line L21 (26, 92.5) -> (50, 92.5) projected
  line L22 (50, 97.5) -> (50, 92.5) projected
  line L23 (50, 97.5) -> (29.4087, 97.5) projected
  arc A7 (35.0334, 101.5) -> (29.4087, 97.5) centre (50, 74.5) ccw projected
  line L24 (35.0334, 101.5) -> (50, 101.5) projected
  line L25 (50, 124) -> (50, 101.5) projected
  line L26 (0, 149) -> (50, 149)
  line L27 (50, 149) -> (50, 0)
  line L28 (50, 0) -> (0, 0)
  line L29 (0, 0) -> (0, 149)
extrude "Extrusion22" add sketch "Sketch37" along normal blind 2 contours A0 L25 L24 A7 L23 L22 L21 A6 L20 L19 L18 A5 L17 L16 L15 A4 L14 L13 L12 A3 L11 L10 L9 A2 L8 L7 L6 A1 L5 L4 L3 L2 L1 L0
sketch "Sketch38" plane through (111.35, -74.5, -50) normal (1, 0, 0) x (0, 0, -1)
  circle A0 centre (-13, 144) radius 2.4257 projected
  circle A1 centre (-13, 5) radius 2.4257 projected
  line L0 (-50, 82.5) -> (-50, 149) projected
  line L1 (-50, 0) -> (0, 0) projected
  line L2 (0, 149) -> (0, 0) projected
  line L3 (-50, 149) -> (0, 149) projected
  line L4 (-50, 0) -> (-50, 66.5) projected
  arc A2 (-50, 65.1192) -> (-50, 83.8808) centre (-29, 74.5) ccw projected
  line L5 (-26, 66.5) -> (-50, 66.5) projected
  arc A3 (-26, 66.5) -> (-26, 82.5) centre (-26, 74.5) ccw projected
  line L6 (-50, 82.5) -> (-26, 82.5) projected
  line L7 (-26, 66.5) -> (-50, 66.5) projected
  line L8 (-50, 82.5) -> (-26, 82.5) projected
  arc A4 (-26, 66.5) -> (-26, 82.5) centre (-26, 74.5) ccw projected
  point P0 (-50, 74.5)
extrude "Extrusion23" add sketch "Sketch38" along normal blind 2
sketch "Sketch39" plane through (0, 0, -50) normal (0, 0, -1) x (-1, 0, 0)
  line L0 (-78.65, -11.235) -> (-81.65, -11.235) projected
  line L1 (-81.65, -11.235) -> (-81.65, 10.765) projected
  line L2 (-81.65, 10.765) -> (-78.65, 10.765) projected
  line L3 (-78.65, 10.765) -> (-78.65, -11.235) projected
  line L4 (-75.65, 10.765) -> (-73.7991, 10.765) projected
  line L5 (-73.7991, 10.765) -> (-72.65, 8.7746) projected
  line L6 (-72.65, 8.7746) -> (-72.65, -9.2446) projected
  line L7 (-72.65, -9.2446) -> (-73.7991, -11.235) projected
  line L8 (-73.7991, -11.235) -> (-75.65, -11.235) projected
  line L9 (-75.65, -11.235) -> (-75.65, 10.765) projected
  line L10 (-87.65, -9.2446) -> (-87.65, 8.7746) projected
  line L11 (-87.65, 8.7746) -> (-86.5009, 10.765) projected
  line L12 (-86.5009, 10.765) -> (-84.65, 10.765) projected
  line L13 (-84.65, 10.765) -> (-84.65, -11.235) projected
  line L14 (-84.65, -11.235) -> (-86.5009, -11.235) projected
  line L15 (-86.5009, -11.235) -> (-87.65, -9.2446) projected
  line L16 (-69.65, -4.0485) -> (-69.65, 3.5785) projected
  line L17 (-69.65, 3.5785) -> (-67.4483, -0.235) projected
  line L18 (-67.4483, -0.235) -> (-69.65, -4.0485) projected
  line L19 (-90.65, -4.0485) -> (-92.8517, -0.235) projected
  line L20 (-92.8517, -0.235) -> (-90.65, 3.5785) projected
  line L21 (-90.65, 3.5785) -> (-90.65, -4.0485) projected
  line L22 (113.35, -74.5) -> (-113.35, -74.5) projected
  line L23 (113.35, 74.5) -> (113.35, -74.5) projected
  line L24 (-113.35, 74.5) -> (113.35, 74.5) projected
  line L25 (-113.35, -74.5) -> (-113.35, 74.5) projected
  line L26 (113.35, -74.5) -> (-113.35, -74.5) projected
  line L27 (-113.35, 74.5) -> (113.35, 74.5)
  line L28 (113.35, 74.5) -> (113.35, -74.5)
  line L29 (113.35, -74.5) -> (-113.35, -74.5)
  line L30 (-113.35, -74.5) -> (-113.35, 74.5)
  point P0 (0, 0)
extrude "ExtrusionForBottom" add sketch "Sketch39" along normal blind 14
sketch "Sketch40" plane through (113.35, -74.5, -50) normal (1, 0, 0) x (0, 0, -1)
  line L0 (-50, 0) -> (14, 0) construction
  line L1 (7, 0) -> (7, 149) construction
  line L2 (-50, 149) -> (14, 149) construction
  line L3 (14, 149) -> (14, 0) construction
  point P0 (-50, 74.5)
  point P1 (7, 40)
  point P2 (7, 109)
  dimension "d234" = 7
  dimension "d235" = 40
  dimension "d236" = 40
hole "10-32 holesToBoltFixture" at (113.35, -34.5, -57) at (113.35, 34.5, -57) direction (-1, 0, 0) diameter 5.105 end through all counterbore diameter 13.335 counterbore depth 6.35 clearance for "Hex Machine Screw" size "#10" standard "Ansi Unified Screw Threads"
ref_plane "Work Plane1" through (30, 0, 0) normal (1, 0, 0) x (0, 1, 0)
ref_plane "Work Plane2" through (-20, 0, 0) normal (1, 0, 0) x (0, 1, 0)
mirror "Mirror4" about plane through (0, 0, 0) normal (1, 0, 0) of "10-32 holesToBoltFixture"
sketch "Sketch43" plane through (113.35, -74.5, -50) normal (1, 0, 0) x (0, 0, -1)
  circle A0 centre (7, 40) radius 6.6675 projected
  circle A1 centre (7, 109) radius 6.6675 projected
  line L0 (-50, 66.5) -> (-50, 0) projected
  line L1 (-50, 0) -> (14, 0) projected
  line L2 (14, 149) -> (14, 0) projected
  line L3 (-50, 149) -> (14, 149) projected
  line L4 (-50, 149) -> (-50, 82.5) projected
  line L5 (-50, 82.5) -> (-26, 82.5) projected
  arc A2 (-26, 66.5) -> (-26, 82.5) centre (-26, 74.5) ccw projected
  line L6 (-26, 66.5) -> (-50, 66.5) projected
  circle A3 centre (-13, 144) radius 2.4257 projected
  circle A4 centre (-13, 5) radius 2.4257 projected
  circle A5 centre (-29, 74.5) radius 26
  circle A6 centre (-29, 74.5) radius 23.75
  point P0 (-50, 74.5)
  point P1 (-50, 85.5934)
  point P2 (-50, 63.4066)
  point P3 (-50, 59.1703)
  point P4 (-50, 89.8297)
  dimension "d255" = 21
  dimension "d256" = 52
  dimension "d257" = 47.5
extrude "CutOutForFilter" cut sketch "Sketch43" against normal blind 2 contours A6 L4 A5 L0 picked at (-40.3061, 96.1053)
ref_plane "Work Plane3" through (108.35, 36.5, -47) normal (-1, 0, 0) x (0, 0, 1)
split "Split2" plane through (108.35, 36.5, -47) removes the side toward (-1, 0, 0)
equation "\"d0\" = newCaseLength"
equation "\"d1\" = caseWidth"
equation "\"d2\" = caseDepth"
equation "\"d5\" = lensLength"
equation "\"d6\" = cameraWidth"
equation "\"d7\" = cameraLength"
equation "\"d8\" = maxComponentDepth"
equation "\"d13\" = fanDepth"
equation "\"d14\" = fanWidth"
equation "\"d15\" = rearWallThickness"
equation "\"d16\" = maxComponentDepth"
equation "\"d20\" = piCaseDepth"
equation "\"d21\" = piCaseLength"
equation "\"d88\" = minDelta"
equation "\"d22\" = maxComponentDepth"
equation "\"d25\" = minDelta"
equation "\"d26\" = poeWidth"
equation "\"d27\" = poeLength"
equation "\"d28\" = maxComponentDepth"
equation "\"d36\" = thermisterLength"
equation "\"d37\" = thermisterWidth"
equation "\"d85\" = frontWallThickness"
equation "\"d38\" = maxComponentDepth"
equation "\"d42\" = sensorLength"
equation "\"d43\" = sensorWidth"
equation "\"d86\" = frontWallThickness"
equation "\"d87\" = outsideWallThickness"
equation "\"d46\" = cutoutDepth"
equation "\"newCaseLength\" = 222.7"
equation "\"caseWidth\" = 149"
equation "\"caseDepth\" = 50"
equation "\"lensLength\" = 15.7"
equation "\"cameraWidth\" = 54"
equation "\"cameraLength\" = 59"
equation "\"maxComponentDepth\" = 47"
equation "\"fanDepth\" = 16"
equation "\"fanWidth\" = 62"
equation "\"rearWallThickness\" = 3"
equation "\"piCaseDepth\" = 32"
equation "\"piCaseLength\" = 129"
equation "\"minDelta\" = 16"
equation "\"poeWidth\" = 49"
equation "\"poeLength\" = 118"
equation "\"thermisterLength\" = 69"
equation "\"thermisterWidth\" = 28"
equation "\"frontWallThickness\" = 3"
equation "\"sensorLength\" = 50"
equation "\"sensorWidth\" = 17"
equation "\"outsideWallThickness\" = 10"
equation "\"cutoutDepth\" = 31.5"
properties part number "caseLowerPortionTestFront" material "PC/ABS Plastic"
